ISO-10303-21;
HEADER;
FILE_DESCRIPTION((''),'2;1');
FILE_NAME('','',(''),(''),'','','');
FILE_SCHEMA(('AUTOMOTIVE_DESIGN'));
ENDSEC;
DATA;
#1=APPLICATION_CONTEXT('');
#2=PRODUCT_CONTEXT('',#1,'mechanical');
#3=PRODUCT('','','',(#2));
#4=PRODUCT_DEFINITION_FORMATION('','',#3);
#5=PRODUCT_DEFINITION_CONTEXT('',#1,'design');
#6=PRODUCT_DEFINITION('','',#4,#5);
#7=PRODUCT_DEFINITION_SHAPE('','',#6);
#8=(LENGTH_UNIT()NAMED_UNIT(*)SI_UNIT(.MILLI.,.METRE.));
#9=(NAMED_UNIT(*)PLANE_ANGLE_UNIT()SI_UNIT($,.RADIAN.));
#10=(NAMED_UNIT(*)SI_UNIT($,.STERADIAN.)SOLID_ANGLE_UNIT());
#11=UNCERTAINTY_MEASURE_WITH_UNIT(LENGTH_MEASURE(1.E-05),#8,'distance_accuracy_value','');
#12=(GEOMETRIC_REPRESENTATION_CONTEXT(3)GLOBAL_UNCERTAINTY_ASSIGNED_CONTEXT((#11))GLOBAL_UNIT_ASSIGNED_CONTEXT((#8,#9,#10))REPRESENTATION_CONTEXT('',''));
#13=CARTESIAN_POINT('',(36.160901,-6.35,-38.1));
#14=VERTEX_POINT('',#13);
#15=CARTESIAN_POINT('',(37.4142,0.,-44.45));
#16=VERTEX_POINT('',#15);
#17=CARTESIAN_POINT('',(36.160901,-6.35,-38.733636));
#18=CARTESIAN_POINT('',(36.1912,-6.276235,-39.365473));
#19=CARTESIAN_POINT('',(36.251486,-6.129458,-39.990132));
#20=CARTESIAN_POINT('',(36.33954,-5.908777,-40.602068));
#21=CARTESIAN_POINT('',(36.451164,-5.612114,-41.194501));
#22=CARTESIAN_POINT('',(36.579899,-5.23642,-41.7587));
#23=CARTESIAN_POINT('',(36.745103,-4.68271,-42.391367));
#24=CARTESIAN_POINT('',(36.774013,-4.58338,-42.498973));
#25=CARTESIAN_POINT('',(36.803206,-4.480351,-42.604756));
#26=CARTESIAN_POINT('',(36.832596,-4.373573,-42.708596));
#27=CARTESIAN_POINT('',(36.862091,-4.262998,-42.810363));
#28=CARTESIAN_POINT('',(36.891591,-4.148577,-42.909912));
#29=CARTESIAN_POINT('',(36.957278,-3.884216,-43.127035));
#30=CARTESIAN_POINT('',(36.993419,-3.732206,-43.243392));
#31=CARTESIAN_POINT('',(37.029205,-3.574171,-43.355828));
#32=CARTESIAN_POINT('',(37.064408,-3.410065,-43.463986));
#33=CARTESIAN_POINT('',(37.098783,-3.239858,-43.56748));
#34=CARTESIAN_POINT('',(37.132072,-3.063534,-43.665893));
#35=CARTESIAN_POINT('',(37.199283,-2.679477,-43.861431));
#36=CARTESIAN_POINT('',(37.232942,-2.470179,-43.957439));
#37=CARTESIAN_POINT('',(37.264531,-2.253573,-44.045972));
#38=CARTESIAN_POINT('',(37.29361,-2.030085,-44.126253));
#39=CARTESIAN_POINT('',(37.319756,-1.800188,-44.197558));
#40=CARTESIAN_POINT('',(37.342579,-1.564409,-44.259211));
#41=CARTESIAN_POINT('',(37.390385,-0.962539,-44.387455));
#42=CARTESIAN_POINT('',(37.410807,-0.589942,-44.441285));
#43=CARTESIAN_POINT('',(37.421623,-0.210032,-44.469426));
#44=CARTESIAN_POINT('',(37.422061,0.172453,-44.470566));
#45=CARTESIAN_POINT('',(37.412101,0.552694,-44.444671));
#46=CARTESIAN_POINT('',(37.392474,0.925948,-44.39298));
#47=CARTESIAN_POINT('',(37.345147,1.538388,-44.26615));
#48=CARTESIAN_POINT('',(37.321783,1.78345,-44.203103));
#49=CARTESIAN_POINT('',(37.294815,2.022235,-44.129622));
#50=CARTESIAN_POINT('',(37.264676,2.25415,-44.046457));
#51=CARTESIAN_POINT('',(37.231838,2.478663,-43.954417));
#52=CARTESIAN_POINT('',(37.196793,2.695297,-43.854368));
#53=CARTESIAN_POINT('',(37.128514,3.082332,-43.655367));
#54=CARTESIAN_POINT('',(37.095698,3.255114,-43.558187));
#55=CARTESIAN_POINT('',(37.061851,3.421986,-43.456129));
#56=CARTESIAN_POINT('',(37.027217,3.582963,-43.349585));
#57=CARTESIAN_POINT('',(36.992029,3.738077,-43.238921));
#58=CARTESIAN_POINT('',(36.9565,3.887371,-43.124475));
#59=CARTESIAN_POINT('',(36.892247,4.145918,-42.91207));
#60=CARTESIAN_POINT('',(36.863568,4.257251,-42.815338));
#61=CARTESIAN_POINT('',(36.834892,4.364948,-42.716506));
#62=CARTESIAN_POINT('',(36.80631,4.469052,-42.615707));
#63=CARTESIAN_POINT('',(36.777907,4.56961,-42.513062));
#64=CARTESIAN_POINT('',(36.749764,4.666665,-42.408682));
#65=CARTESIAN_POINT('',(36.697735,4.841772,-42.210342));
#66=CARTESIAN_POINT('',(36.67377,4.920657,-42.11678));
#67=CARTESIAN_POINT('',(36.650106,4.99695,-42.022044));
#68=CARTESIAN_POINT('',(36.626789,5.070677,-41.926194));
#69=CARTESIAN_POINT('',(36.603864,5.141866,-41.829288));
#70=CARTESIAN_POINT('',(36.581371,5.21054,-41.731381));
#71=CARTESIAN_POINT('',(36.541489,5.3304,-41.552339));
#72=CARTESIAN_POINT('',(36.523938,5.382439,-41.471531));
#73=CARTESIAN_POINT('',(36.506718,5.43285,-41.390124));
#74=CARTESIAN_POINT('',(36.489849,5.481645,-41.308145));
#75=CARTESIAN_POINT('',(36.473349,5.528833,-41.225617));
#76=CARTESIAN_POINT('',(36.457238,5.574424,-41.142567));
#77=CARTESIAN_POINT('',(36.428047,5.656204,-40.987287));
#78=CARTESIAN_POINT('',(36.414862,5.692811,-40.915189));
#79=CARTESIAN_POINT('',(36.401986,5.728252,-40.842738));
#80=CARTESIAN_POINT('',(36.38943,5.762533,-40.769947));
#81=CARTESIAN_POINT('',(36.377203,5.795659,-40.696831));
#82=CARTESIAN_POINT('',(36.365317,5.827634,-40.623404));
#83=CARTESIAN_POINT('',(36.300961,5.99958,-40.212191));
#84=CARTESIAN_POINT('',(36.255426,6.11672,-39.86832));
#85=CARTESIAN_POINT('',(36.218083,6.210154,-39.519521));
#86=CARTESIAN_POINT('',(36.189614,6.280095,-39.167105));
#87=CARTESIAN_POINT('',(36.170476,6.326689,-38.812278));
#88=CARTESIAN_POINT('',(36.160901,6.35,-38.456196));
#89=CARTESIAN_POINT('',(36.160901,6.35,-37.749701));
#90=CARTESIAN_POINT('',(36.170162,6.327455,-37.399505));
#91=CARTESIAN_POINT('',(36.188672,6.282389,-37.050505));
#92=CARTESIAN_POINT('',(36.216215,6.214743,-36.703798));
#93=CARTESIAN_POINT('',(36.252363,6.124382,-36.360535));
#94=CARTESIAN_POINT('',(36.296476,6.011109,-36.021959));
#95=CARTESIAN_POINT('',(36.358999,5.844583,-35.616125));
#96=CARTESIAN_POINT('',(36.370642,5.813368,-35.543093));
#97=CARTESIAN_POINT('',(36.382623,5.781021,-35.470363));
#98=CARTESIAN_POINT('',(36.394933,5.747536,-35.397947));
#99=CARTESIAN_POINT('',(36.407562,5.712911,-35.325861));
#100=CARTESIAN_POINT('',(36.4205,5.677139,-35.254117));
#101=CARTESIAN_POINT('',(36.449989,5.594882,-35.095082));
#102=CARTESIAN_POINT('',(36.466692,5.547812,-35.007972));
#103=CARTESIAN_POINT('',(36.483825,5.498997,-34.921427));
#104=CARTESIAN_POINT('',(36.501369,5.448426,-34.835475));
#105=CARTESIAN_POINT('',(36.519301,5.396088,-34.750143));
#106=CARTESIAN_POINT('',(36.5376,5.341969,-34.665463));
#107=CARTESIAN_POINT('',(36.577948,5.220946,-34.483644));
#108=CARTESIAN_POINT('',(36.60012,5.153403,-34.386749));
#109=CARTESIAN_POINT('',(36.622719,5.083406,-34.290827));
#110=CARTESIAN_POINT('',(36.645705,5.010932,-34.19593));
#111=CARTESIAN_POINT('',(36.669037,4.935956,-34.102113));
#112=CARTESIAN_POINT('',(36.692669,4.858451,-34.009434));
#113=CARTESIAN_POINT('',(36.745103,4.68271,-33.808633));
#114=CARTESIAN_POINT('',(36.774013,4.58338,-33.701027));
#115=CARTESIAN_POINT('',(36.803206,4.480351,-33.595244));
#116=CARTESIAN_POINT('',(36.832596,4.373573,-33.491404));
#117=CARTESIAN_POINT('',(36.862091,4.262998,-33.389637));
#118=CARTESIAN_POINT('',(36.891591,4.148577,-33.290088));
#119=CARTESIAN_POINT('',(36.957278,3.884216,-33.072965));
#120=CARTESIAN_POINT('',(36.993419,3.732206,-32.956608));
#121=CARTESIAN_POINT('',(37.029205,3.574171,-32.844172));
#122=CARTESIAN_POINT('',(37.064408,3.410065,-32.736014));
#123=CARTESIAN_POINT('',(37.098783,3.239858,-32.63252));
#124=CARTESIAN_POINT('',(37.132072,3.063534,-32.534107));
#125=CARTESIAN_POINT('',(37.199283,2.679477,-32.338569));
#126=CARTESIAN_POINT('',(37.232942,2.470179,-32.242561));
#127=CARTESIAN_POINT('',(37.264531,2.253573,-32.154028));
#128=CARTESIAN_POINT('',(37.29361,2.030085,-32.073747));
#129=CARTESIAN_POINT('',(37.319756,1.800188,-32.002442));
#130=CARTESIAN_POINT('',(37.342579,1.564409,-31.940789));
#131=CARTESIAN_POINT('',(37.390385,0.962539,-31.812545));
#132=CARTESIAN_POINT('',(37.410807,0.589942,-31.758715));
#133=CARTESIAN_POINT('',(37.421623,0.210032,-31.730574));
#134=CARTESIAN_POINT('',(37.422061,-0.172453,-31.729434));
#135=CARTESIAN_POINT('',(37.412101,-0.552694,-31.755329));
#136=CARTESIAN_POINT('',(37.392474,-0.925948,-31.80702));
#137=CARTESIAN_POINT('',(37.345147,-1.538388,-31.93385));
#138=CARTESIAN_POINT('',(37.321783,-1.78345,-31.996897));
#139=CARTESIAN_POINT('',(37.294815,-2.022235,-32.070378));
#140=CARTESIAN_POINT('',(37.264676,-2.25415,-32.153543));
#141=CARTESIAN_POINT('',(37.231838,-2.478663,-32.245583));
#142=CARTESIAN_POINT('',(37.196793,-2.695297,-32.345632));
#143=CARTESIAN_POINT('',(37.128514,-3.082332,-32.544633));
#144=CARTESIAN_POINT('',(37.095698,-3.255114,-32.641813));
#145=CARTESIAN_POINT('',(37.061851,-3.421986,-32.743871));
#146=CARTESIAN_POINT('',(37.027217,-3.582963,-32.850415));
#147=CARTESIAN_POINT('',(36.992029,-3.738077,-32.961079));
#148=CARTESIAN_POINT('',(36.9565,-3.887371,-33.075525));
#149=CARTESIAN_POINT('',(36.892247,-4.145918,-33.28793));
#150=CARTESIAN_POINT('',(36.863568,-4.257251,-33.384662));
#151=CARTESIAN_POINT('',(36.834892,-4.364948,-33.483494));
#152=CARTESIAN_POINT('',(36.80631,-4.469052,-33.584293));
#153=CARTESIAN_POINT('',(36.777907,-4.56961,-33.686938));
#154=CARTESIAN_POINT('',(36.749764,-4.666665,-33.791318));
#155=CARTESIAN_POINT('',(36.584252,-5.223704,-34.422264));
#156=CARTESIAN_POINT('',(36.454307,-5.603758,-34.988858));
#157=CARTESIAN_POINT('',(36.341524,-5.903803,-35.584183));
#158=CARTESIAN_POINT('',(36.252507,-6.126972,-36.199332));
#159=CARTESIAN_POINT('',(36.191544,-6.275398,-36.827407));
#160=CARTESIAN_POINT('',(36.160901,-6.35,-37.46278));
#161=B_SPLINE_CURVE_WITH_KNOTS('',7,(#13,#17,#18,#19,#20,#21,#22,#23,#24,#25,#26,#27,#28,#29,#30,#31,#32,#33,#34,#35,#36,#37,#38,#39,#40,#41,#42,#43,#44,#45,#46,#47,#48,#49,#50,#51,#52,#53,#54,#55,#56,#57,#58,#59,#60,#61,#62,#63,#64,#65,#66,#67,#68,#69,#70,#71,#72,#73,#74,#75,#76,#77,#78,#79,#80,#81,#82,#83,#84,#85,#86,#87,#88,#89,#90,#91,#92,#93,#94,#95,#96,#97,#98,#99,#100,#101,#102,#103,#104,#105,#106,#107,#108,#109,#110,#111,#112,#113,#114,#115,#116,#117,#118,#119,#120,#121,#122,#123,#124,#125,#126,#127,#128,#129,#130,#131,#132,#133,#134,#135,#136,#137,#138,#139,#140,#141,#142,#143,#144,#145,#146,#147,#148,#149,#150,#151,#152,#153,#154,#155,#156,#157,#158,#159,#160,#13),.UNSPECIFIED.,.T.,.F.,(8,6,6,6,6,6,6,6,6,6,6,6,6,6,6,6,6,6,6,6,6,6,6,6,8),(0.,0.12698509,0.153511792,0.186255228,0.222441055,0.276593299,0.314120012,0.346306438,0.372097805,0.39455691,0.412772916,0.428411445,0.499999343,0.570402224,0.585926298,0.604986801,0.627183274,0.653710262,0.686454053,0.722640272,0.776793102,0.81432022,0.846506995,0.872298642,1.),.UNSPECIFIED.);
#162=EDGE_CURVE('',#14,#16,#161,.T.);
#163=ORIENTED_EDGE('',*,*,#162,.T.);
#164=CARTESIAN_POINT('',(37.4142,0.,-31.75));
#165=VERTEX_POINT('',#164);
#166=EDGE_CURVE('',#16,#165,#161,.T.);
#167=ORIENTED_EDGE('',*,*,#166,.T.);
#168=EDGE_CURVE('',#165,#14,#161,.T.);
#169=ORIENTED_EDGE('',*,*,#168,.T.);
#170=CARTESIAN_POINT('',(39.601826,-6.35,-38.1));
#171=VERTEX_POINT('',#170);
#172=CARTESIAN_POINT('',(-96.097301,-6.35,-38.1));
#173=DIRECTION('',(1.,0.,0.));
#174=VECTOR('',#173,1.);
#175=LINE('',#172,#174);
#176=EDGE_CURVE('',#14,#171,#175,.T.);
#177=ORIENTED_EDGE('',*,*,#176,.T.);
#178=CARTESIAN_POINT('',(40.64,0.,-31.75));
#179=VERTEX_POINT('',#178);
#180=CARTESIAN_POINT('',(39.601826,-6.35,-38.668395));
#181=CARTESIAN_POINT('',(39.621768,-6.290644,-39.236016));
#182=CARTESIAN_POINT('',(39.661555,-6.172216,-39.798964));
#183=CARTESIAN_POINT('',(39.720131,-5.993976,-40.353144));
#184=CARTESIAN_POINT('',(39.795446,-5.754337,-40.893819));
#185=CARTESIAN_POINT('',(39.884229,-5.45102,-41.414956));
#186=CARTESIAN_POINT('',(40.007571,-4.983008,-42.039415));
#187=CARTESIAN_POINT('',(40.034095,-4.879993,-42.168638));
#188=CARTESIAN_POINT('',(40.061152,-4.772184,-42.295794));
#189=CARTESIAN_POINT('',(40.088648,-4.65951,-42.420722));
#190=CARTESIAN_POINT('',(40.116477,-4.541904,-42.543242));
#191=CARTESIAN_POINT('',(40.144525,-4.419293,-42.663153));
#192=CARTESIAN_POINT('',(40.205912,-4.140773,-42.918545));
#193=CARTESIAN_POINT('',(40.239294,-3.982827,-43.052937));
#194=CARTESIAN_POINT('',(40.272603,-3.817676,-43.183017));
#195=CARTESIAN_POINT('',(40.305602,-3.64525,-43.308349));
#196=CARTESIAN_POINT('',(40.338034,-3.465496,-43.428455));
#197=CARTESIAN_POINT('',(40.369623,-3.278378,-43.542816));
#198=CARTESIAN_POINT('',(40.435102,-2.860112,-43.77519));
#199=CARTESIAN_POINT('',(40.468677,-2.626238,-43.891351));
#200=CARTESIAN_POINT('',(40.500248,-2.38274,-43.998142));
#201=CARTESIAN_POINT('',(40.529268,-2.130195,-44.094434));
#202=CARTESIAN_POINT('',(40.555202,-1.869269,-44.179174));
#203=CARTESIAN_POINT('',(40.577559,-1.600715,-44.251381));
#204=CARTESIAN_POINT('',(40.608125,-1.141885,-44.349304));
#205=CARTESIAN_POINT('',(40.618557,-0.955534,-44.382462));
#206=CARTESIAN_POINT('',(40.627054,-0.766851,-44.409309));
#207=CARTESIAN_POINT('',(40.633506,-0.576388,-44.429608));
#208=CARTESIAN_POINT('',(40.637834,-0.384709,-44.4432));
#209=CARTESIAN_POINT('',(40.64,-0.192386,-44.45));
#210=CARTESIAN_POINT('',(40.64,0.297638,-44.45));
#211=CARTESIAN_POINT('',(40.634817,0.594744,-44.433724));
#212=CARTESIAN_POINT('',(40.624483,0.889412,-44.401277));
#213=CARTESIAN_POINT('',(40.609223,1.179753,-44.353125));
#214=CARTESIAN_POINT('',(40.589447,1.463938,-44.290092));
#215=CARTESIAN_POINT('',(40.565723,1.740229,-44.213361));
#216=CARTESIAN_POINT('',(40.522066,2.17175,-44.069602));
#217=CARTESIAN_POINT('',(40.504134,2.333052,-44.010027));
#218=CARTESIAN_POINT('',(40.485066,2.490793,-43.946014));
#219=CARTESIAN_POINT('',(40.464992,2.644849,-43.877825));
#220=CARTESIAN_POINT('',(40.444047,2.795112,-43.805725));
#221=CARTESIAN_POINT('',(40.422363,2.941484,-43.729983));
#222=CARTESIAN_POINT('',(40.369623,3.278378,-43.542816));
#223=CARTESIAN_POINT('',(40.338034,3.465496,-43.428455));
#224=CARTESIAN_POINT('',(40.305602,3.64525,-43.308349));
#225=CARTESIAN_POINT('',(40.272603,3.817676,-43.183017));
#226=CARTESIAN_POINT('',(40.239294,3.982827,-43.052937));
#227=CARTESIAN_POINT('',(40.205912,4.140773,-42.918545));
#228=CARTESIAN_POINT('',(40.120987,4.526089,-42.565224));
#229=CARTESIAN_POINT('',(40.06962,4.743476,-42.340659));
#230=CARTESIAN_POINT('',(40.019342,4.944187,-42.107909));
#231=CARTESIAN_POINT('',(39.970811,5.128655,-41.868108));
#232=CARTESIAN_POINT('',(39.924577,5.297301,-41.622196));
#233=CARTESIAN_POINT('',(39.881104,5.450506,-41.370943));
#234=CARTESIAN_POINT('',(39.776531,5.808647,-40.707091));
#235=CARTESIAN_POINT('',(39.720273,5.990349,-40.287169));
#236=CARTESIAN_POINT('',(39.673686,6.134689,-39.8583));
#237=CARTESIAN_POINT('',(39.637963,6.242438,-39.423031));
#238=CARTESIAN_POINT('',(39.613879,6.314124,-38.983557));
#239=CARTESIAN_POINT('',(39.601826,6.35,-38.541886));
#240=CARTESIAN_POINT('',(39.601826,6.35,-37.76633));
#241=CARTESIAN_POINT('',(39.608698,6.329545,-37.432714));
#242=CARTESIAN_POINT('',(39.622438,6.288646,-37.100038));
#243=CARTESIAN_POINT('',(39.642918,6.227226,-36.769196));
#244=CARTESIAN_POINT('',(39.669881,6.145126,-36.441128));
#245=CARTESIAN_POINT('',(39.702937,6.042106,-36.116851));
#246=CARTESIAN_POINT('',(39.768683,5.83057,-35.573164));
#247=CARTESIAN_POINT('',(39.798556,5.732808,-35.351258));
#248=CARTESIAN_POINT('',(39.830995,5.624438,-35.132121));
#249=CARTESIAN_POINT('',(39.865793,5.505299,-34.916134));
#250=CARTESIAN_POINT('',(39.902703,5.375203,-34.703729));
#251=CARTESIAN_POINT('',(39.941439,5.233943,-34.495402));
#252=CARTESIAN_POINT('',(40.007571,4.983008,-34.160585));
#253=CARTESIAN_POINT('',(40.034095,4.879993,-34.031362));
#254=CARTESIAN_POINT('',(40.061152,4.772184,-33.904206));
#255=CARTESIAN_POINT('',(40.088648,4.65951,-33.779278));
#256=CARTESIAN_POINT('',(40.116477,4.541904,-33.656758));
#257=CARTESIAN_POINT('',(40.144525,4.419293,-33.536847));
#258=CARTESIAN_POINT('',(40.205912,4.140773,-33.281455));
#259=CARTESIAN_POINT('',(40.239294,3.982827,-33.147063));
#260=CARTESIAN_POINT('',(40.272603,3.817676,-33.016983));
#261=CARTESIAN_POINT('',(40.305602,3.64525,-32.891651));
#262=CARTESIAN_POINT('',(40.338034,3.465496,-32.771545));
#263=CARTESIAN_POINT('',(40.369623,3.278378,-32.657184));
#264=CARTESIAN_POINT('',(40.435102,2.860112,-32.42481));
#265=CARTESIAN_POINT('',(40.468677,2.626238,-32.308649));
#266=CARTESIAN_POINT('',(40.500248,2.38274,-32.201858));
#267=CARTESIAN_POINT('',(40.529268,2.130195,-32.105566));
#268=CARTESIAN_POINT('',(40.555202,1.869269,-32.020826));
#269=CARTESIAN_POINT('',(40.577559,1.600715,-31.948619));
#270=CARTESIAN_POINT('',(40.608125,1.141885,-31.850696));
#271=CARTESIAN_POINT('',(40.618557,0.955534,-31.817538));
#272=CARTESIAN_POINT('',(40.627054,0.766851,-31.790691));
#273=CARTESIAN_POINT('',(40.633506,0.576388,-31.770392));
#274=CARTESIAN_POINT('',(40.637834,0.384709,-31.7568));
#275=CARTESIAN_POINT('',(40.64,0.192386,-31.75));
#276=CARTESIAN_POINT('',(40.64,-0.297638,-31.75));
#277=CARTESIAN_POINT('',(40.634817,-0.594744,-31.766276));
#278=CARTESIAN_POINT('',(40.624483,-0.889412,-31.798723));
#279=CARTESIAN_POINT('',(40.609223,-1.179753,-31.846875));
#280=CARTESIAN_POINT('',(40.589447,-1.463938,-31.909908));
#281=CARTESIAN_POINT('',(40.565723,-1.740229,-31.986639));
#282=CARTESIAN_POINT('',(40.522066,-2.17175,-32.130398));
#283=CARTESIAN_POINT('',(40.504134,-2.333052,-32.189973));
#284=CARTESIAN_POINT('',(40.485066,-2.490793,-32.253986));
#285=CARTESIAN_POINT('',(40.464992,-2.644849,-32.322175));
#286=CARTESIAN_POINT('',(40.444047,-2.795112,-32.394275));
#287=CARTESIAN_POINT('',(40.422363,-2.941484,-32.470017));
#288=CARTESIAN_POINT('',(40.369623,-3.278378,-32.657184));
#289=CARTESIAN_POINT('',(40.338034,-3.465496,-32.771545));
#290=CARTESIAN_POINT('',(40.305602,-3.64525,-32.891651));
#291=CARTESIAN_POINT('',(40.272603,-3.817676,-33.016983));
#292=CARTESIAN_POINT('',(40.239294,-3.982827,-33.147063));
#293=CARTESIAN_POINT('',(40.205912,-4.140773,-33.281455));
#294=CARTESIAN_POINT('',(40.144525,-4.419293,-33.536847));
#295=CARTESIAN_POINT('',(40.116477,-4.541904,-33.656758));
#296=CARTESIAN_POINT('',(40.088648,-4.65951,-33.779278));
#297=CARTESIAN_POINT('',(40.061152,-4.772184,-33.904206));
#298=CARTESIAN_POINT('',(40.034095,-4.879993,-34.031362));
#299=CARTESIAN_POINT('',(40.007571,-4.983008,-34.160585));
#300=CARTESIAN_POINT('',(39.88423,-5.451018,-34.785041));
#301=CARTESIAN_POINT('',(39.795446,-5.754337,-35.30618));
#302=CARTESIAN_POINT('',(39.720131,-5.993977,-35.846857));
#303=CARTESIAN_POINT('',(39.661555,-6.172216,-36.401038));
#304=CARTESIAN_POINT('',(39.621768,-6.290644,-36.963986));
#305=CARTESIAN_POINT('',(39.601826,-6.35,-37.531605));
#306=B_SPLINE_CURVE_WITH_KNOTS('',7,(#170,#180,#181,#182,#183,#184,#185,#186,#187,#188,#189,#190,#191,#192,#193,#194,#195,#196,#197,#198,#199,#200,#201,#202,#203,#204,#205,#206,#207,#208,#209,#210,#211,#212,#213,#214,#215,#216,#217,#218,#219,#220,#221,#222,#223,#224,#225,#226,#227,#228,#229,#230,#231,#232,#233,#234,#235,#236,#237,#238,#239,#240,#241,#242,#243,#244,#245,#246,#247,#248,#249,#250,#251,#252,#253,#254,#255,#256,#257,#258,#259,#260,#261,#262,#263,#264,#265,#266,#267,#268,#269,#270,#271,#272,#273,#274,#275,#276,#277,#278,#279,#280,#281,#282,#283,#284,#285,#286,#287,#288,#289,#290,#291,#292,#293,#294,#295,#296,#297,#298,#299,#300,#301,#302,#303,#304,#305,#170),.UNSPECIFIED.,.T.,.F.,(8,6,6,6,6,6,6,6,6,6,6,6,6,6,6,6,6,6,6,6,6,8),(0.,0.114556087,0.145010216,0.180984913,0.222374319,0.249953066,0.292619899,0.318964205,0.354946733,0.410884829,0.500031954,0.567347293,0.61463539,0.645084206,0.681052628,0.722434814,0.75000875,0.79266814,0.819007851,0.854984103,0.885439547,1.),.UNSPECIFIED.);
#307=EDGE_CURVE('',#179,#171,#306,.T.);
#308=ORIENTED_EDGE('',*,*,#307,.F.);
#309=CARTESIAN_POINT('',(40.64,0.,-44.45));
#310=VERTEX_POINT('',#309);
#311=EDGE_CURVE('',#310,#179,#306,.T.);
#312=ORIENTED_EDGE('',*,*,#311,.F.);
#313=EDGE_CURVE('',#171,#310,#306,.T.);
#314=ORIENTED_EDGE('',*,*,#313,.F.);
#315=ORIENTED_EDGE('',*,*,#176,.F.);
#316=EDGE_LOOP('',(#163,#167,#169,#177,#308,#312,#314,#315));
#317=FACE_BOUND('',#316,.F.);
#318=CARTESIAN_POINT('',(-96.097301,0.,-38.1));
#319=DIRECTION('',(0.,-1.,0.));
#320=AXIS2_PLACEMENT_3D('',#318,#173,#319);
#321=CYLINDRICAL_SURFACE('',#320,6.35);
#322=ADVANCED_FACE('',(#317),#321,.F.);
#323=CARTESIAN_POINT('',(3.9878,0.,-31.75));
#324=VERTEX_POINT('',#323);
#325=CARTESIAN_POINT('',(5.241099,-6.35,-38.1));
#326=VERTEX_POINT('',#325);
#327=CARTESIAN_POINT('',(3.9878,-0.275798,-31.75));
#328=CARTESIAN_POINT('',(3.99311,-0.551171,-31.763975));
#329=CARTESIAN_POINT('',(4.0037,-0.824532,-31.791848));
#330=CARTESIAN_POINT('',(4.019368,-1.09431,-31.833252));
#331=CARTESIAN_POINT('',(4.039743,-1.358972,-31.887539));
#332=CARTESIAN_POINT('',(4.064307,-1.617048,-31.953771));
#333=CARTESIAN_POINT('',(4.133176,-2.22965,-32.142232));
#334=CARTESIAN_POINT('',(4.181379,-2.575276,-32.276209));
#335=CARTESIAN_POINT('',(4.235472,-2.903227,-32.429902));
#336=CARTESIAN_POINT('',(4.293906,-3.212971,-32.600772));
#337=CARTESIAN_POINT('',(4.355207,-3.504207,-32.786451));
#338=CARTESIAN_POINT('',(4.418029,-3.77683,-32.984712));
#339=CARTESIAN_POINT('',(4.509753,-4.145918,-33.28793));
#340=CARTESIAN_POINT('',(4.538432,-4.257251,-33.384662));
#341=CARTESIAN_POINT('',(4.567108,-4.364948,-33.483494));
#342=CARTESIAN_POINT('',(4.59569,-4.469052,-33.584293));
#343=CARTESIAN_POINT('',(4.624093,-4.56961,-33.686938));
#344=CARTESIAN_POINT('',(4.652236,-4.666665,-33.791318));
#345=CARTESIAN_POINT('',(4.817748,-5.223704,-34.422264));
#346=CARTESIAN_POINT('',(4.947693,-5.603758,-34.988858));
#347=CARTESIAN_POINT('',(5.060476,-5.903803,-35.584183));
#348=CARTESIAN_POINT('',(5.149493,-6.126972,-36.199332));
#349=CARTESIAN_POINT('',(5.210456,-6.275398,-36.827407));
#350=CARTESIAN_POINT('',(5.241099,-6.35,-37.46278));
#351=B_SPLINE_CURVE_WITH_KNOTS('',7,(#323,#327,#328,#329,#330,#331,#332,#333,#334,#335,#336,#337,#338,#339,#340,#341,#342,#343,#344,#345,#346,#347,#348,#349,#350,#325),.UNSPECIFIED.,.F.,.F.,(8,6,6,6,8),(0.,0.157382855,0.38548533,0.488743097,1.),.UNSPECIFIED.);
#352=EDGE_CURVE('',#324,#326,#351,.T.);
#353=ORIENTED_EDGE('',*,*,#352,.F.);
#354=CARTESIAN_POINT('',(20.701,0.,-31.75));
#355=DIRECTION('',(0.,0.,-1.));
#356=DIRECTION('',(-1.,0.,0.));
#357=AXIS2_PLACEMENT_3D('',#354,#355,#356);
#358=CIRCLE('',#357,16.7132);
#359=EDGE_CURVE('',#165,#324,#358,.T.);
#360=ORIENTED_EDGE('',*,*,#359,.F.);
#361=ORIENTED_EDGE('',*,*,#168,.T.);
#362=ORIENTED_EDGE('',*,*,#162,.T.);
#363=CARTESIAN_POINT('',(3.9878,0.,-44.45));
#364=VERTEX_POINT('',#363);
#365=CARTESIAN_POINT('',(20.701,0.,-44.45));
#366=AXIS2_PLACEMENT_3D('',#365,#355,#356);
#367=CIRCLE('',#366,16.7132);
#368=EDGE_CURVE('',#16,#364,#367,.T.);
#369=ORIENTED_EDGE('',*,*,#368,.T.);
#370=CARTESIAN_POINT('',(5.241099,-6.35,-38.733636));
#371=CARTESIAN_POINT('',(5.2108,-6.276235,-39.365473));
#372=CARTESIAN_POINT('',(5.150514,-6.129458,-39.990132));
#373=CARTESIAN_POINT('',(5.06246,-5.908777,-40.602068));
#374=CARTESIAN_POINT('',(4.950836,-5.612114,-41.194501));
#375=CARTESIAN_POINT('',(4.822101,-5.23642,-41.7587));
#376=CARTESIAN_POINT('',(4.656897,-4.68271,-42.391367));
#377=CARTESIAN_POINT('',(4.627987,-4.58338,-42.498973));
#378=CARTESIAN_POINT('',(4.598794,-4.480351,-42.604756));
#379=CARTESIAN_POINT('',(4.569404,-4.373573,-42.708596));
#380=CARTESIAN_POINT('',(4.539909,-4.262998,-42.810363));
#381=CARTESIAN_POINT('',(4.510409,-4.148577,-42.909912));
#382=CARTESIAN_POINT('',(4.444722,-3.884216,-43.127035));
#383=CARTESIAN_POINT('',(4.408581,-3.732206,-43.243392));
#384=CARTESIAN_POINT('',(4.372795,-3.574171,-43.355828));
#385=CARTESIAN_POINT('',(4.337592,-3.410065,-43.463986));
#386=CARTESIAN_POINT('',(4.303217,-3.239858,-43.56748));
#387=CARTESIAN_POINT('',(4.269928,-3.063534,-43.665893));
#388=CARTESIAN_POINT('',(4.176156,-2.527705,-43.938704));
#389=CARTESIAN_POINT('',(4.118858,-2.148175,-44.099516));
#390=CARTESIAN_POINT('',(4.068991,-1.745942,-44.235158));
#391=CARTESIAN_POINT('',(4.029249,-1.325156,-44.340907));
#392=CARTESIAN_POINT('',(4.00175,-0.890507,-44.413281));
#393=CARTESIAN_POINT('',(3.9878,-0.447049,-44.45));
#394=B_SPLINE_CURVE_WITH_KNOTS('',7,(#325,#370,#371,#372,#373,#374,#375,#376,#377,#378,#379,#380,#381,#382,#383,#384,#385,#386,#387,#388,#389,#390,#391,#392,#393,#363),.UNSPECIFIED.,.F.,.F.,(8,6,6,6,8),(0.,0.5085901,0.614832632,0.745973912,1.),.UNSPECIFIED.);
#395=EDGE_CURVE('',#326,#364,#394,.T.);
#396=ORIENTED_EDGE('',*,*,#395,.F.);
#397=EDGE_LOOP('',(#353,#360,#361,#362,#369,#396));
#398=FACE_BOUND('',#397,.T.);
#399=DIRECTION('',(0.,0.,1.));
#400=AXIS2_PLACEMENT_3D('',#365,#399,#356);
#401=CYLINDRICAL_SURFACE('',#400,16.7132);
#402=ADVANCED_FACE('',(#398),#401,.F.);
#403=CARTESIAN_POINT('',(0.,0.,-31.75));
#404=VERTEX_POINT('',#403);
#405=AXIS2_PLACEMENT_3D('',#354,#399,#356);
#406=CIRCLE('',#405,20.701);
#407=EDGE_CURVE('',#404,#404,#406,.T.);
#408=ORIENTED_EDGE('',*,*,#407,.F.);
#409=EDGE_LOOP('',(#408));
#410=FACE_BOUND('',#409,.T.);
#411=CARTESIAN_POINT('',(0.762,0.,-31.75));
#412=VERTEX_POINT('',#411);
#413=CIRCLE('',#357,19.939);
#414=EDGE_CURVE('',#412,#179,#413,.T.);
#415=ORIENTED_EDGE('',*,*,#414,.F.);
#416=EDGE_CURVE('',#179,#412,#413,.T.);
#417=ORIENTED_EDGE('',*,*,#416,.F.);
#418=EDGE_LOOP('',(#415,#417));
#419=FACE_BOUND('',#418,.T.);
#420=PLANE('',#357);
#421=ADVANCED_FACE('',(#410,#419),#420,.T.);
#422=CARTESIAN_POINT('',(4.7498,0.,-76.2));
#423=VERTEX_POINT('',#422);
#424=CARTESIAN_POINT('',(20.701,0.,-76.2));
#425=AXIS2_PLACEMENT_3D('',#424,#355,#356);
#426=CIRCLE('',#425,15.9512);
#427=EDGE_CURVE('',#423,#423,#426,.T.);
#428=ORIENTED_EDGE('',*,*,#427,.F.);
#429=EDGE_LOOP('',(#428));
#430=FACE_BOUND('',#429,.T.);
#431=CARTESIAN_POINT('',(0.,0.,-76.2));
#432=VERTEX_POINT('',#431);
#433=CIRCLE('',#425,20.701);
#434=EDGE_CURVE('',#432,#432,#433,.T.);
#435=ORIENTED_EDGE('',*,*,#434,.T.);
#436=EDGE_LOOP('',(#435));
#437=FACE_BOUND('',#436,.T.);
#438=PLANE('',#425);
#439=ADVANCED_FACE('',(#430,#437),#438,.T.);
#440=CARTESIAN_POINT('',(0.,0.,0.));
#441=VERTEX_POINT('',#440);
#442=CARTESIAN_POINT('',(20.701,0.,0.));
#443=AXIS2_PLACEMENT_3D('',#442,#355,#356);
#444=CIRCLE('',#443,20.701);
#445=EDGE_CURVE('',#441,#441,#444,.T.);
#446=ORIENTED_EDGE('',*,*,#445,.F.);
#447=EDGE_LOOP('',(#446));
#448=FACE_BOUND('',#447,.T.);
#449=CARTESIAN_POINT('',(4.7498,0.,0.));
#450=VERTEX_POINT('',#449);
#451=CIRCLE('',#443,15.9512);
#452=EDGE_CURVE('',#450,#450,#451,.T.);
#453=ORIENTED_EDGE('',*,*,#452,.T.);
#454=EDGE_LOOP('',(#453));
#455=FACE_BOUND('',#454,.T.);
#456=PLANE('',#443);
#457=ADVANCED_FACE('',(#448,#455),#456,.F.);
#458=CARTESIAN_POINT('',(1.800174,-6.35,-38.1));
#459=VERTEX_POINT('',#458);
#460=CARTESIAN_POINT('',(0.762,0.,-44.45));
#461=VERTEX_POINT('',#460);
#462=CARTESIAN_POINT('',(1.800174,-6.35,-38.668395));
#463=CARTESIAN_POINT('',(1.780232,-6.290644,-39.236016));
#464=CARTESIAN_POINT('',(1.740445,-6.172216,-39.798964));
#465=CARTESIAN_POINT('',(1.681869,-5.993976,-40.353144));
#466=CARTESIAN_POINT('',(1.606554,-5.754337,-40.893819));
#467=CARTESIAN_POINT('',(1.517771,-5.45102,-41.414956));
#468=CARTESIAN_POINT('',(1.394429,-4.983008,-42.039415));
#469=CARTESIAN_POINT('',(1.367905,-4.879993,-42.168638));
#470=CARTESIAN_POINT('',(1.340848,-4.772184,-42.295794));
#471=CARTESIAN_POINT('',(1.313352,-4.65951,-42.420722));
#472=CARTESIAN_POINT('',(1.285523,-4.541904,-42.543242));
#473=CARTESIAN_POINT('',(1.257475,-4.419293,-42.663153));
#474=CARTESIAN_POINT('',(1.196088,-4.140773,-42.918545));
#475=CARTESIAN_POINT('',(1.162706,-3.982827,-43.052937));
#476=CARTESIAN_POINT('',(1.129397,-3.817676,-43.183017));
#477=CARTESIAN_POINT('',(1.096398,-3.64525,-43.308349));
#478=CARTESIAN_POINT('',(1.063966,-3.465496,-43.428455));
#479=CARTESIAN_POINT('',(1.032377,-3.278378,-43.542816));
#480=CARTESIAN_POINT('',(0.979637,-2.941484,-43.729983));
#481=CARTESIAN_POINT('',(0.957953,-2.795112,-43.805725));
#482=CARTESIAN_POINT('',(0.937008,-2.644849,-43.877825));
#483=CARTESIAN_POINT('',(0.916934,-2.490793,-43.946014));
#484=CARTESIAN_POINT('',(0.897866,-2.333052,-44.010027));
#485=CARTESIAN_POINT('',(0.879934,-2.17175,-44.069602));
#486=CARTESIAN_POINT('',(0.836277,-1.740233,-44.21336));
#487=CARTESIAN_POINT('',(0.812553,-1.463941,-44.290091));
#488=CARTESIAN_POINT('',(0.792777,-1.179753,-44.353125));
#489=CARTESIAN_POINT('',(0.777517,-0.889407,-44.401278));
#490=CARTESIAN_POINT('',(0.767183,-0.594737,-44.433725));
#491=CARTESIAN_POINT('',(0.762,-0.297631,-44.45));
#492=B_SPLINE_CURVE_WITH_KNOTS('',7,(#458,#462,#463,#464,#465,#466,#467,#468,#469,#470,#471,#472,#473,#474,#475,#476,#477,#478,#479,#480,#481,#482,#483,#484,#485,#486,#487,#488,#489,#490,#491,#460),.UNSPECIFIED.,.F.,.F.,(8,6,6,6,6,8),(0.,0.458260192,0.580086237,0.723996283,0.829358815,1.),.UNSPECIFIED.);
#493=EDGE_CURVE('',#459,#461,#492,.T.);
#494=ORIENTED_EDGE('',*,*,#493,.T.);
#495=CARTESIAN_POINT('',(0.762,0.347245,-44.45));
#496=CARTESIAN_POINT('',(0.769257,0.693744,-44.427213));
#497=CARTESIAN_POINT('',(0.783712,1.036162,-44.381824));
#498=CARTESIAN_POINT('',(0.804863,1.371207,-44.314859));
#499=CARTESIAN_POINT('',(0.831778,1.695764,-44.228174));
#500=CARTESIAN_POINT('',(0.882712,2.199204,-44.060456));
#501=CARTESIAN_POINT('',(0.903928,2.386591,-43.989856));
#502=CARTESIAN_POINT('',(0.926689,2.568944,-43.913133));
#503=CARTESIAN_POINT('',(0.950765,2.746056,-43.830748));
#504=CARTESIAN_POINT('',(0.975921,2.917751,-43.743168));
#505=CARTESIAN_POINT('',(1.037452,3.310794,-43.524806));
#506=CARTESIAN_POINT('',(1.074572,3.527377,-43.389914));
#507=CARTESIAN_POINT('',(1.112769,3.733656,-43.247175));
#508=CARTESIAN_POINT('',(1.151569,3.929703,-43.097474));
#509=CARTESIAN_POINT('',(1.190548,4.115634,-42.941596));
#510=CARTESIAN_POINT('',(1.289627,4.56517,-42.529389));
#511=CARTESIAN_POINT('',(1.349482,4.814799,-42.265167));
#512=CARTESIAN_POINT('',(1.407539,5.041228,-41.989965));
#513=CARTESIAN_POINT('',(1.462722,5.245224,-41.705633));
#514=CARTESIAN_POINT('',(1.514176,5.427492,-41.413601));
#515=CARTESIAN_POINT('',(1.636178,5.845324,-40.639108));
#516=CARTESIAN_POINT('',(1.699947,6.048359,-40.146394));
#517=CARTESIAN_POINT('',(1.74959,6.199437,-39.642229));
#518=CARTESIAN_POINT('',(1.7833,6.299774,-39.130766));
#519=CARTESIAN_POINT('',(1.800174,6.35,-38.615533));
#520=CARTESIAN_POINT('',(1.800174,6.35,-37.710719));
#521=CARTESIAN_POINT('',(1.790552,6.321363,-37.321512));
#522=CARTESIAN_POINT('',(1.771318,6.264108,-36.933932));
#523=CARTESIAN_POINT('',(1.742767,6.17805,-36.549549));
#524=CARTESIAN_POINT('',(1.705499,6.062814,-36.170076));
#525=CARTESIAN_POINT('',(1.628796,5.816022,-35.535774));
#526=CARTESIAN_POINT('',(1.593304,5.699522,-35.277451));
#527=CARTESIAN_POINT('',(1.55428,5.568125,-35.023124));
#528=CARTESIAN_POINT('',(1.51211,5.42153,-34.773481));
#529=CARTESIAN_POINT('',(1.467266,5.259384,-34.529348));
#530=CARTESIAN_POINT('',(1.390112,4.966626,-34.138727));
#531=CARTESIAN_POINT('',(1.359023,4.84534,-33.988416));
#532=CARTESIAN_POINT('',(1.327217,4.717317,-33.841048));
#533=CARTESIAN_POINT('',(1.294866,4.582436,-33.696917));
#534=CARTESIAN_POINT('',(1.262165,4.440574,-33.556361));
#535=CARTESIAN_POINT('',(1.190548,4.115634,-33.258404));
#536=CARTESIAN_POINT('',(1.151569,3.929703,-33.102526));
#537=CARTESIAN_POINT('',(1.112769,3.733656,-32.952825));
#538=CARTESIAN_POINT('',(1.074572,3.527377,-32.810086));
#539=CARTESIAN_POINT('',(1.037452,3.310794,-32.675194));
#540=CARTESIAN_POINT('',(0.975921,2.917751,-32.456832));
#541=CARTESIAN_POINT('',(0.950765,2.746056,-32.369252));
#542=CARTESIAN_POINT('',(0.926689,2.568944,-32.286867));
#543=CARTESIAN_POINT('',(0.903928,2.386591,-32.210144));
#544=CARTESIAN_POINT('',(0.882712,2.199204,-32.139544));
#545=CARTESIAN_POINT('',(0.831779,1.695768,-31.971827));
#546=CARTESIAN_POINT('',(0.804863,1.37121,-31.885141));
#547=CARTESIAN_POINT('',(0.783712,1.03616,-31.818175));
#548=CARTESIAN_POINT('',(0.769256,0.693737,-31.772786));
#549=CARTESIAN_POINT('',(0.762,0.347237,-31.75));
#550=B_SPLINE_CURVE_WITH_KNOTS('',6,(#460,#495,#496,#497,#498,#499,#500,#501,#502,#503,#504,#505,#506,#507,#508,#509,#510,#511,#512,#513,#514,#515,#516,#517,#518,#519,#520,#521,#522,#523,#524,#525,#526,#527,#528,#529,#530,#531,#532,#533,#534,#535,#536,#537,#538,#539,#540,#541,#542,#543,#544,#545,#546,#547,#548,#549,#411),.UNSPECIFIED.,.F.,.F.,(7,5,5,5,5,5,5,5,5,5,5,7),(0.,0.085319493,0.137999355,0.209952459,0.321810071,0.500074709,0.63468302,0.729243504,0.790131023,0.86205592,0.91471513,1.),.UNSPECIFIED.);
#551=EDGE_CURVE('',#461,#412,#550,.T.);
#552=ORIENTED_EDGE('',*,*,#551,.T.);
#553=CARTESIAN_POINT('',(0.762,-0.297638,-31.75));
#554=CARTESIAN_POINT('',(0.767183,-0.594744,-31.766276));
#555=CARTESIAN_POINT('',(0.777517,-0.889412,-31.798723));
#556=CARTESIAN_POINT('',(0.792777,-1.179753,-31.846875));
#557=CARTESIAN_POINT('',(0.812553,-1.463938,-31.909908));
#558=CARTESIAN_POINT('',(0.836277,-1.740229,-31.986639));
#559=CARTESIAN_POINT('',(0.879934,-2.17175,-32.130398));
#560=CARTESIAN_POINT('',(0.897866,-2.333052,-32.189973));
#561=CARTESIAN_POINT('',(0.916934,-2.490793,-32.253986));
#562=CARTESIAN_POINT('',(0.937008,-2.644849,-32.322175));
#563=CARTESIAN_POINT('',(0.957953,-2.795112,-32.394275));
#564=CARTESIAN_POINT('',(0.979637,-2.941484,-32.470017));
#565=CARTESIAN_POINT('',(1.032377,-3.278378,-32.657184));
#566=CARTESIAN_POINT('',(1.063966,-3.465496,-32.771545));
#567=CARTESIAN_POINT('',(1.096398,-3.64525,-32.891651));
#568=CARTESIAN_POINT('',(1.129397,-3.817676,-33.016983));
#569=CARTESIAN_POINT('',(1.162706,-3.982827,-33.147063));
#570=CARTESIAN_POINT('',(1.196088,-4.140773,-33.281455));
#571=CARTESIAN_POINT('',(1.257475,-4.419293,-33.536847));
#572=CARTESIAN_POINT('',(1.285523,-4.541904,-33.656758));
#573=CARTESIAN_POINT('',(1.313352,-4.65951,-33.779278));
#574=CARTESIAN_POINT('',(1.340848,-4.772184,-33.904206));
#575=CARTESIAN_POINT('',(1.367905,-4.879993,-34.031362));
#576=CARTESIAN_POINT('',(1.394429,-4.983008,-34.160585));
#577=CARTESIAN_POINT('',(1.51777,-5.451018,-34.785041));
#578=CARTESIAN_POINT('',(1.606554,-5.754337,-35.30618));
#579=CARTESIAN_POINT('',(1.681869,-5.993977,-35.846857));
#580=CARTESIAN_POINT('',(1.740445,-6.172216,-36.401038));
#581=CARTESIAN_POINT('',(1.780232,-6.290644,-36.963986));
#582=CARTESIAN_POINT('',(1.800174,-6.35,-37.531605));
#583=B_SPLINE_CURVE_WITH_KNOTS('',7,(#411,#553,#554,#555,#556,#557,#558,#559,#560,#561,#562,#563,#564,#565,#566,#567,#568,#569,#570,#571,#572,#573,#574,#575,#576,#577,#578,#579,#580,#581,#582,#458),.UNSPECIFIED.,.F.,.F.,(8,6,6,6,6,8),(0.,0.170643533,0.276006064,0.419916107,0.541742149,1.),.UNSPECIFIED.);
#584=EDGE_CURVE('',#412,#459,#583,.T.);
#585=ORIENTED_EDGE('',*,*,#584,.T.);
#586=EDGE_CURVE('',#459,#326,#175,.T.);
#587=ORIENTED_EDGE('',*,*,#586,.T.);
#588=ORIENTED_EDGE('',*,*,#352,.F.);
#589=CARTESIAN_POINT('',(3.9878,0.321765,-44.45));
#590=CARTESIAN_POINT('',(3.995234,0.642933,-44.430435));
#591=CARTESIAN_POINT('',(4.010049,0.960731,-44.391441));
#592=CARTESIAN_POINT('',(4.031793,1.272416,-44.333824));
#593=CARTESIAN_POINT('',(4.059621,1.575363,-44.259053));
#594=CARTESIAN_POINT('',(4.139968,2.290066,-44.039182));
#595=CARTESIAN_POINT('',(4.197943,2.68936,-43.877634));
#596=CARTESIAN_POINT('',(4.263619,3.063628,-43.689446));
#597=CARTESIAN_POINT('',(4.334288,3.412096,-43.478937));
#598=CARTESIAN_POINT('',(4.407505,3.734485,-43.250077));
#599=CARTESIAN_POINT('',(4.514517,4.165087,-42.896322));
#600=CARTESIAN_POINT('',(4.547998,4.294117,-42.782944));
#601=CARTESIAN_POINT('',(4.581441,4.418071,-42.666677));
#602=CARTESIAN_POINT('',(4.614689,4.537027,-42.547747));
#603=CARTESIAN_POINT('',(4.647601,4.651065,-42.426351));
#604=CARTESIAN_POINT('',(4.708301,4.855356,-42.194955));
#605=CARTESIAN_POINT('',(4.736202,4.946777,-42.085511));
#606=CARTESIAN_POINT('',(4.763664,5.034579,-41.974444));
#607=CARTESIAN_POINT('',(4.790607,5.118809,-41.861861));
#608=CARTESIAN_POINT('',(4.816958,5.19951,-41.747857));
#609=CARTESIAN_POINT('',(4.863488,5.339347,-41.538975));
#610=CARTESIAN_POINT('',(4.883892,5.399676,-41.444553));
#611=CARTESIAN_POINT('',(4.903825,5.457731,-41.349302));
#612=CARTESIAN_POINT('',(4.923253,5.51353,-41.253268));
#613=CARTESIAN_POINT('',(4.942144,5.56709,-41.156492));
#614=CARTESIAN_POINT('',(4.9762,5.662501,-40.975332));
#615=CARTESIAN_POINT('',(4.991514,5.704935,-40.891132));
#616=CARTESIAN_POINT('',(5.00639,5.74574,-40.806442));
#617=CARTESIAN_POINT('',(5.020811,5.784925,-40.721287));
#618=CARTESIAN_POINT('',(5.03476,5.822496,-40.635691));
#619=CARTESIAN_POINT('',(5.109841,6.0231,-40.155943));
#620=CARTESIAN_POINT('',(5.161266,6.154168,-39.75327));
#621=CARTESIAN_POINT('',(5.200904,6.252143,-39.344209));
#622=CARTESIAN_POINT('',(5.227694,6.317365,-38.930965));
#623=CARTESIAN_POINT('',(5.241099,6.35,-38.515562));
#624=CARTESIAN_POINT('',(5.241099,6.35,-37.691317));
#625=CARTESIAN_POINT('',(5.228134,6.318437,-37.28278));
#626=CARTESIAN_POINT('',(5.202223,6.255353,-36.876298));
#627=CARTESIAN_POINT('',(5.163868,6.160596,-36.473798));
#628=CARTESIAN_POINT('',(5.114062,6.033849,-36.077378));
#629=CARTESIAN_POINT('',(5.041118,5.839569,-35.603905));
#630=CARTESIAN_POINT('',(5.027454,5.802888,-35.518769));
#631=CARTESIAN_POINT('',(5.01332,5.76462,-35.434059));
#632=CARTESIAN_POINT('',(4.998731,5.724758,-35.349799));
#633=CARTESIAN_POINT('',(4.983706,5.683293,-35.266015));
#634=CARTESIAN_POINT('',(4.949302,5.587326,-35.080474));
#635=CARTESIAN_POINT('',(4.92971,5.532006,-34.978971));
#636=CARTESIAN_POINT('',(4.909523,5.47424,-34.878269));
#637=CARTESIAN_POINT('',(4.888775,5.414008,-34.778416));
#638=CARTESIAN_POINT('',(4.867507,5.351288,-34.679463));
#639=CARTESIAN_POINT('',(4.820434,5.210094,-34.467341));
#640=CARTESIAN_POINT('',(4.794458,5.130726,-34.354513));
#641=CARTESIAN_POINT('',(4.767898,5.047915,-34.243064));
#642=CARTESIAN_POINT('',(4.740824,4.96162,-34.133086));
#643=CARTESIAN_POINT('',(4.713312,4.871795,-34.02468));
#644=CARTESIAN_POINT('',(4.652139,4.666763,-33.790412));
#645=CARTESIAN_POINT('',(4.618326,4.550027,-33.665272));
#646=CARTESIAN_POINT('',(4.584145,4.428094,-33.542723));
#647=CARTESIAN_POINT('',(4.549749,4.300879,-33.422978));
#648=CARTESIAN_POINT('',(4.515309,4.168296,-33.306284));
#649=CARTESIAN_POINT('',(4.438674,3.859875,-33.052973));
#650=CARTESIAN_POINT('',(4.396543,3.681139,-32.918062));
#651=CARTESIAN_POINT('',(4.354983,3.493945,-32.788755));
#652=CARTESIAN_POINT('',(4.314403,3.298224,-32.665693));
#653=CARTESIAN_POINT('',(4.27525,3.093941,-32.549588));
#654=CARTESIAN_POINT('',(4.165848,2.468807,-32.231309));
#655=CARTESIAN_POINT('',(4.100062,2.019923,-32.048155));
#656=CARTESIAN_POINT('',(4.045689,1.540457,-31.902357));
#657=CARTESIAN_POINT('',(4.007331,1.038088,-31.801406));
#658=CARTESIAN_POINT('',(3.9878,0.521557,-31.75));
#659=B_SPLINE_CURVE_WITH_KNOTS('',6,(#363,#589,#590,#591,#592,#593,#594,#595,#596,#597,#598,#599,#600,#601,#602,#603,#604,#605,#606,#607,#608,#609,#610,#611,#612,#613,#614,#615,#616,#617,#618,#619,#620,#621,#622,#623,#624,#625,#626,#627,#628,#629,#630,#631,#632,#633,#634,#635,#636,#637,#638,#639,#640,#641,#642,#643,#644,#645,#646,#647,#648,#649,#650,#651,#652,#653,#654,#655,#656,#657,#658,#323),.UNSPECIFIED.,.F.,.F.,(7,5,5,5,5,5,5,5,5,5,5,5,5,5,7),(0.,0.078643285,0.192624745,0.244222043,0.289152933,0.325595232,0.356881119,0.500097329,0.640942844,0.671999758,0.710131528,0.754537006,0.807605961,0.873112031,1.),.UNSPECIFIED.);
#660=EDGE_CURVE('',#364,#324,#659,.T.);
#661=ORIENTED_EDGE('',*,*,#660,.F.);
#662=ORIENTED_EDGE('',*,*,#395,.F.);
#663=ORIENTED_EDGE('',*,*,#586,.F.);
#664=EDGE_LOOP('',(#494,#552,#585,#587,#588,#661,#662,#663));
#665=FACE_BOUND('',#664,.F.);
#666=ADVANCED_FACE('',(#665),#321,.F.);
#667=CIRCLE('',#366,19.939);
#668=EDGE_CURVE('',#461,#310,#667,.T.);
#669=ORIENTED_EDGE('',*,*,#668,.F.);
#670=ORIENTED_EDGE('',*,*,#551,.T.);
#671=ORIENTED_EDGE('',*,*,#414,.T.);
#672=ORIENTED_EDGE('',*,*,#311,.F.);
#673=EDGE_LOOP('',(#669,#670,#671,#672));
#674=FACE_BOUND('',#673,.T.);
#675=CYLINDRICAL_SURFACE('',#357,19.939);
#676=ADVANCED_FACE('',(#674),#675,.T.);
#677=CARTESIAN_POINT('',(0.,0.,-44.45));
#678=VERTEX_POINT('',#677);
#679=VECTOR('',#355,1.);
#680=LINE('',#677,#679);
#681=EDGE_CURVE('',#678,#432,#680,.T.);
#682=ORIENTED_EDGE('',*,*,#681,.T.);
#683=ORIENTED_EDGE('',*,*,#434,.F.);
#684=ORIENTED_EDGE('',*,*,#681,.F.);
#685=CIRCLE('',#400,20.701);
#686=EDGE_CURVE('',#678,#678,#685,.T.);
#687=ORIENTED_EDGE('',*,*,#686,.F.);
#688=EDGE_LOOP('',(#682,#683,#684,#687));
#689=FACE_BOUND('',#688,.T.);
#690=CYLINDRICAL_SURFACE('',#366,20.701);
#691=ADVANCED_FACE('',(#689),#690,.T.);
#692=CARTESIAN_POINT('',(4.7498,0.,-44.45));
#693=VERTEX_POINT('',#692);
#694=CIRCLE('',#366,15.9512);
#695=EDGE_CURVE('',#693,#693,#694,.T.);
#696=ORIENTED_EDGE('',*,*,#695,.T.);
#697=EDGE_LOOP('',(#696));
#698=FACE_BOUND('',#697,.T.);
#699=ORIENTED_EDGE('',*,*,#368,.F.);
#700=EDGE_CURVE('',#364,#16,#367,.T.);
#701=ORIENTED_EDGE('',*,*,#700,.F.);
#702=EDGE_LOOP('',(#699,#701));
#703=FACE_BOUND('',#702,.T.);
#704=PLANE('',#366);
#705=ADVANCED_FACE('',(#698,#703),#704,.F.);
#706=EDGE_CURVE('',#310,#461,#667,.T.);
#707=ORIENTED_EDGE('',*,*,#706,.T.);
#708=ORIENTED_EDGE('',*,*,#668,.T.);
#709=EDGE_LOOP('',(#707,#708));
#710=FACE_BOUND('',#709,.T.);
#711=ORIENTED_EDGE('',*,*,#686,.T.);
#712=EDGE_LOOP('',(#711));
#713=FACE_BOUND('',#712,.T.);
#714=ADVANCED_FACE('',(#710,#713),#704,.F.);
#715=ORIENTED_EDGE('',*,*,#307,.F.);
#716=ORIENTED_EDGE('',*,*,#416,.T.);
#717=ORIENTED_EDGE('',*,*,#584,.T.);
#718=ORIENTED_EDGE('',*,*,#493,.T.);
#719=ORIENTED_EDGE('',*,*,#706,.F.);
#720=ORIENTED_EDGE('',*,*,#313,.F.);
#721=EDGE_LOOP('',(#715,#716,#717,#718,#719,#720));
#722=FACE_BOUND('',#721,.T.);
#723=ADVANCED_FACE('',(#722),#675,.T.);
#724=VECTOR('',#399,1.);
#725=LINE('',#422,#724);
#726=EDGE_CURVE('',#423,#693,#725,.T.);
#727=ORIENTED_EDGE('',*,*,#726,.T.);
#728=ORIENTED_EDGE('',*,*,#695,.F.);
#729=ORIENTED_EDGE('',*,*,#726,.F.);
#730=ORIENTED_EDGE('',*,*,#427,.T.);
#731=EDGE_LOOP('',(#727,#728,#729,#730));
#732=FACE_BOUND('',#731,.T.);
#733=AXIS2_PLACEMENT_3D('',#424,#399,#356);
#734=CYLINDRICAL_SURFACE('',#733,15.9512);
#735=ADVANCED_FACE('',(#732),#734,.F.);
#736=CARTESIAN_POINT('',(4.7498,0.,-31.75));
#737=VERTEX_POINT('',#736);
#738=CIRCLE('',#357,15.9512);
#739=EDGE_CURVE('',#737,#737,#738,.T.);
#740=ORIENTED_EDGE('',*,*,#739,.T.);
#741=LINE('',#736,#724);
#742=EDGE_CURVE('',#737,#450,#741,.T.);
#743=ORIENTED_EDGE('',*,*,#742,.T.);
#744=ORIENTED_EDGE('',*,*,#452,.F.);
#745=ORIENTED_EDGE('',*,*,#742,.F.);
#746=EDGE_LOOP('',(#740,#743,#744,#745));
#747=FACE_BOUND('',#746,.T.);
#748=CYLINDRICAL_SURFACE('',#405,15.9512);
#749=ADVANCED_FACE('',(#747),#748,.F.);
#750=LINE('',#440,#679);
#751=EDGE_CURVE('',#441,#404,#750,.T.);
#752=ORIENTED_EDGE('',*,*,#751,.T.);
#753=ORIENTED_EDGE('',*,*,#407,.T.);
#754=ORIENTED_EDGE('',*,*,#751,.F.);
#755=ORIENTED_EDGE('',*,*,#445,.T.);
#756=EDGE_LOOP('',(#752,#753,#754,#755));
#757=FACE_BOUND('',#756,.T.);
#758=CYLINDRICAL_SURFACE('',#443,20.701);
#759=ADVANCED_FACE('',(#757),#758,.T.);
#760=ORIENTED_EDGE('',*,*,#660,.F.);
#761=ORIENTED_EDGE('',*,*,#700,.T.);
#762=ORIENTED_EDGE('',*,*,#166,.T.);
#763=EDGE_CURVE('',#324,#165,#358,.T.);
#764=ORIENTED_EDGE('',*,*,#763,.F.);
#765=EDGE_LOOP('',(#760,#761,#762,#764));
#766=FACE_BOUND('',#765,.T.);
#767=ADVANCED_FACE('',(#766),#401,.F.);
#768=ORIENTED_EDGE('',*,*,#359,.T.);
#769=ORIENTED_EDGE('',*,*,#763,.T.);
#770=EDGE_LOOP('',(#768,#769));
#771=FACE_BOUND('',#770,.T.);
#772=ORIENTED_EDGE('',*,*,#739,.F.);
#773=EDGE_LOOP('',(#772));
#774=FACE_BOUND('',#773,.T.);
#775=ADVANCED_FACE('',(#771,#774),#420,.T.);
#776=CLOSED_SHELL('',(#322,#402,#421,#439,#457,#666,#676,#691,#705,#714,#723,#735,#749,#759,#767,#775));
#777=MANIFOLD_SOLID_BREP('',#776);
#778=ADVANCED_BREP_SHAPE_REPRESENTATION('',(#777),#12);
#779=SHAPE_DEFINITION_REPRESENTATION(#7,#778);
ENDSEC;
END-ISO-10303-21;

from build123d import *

# Parameters (mm, degrees)
F3_D = 12.7


with BuildPart() as f1:
    # F0 (on Front) → F1 (revolve)
    with BuildSketch(Plane.XZ):
        Polygon((4.7498, 0), (0, 0), (0, -31.75), (0.762, -31.75), (0.762, -44.45), (0, -44.45), (0, -76.2), (4.7498, -76.2), (4.7498, -44.45), (3.9878, -44.45), (3.9878, -31.75), (4.7498, -31.75), align=None)
    revolve(axis=Axis((20.701, 0, -38.1), (0, 0, -1)))

    # F3 (through all)
    with Locations(Plane(origin=(0, 0, 0), x_dir=(0, 1, 0), z_dir=(-1, 0, 0))):
        with Locations((0, 38.1)):
            Hole(F3_D / 2)


solid = f1.part
